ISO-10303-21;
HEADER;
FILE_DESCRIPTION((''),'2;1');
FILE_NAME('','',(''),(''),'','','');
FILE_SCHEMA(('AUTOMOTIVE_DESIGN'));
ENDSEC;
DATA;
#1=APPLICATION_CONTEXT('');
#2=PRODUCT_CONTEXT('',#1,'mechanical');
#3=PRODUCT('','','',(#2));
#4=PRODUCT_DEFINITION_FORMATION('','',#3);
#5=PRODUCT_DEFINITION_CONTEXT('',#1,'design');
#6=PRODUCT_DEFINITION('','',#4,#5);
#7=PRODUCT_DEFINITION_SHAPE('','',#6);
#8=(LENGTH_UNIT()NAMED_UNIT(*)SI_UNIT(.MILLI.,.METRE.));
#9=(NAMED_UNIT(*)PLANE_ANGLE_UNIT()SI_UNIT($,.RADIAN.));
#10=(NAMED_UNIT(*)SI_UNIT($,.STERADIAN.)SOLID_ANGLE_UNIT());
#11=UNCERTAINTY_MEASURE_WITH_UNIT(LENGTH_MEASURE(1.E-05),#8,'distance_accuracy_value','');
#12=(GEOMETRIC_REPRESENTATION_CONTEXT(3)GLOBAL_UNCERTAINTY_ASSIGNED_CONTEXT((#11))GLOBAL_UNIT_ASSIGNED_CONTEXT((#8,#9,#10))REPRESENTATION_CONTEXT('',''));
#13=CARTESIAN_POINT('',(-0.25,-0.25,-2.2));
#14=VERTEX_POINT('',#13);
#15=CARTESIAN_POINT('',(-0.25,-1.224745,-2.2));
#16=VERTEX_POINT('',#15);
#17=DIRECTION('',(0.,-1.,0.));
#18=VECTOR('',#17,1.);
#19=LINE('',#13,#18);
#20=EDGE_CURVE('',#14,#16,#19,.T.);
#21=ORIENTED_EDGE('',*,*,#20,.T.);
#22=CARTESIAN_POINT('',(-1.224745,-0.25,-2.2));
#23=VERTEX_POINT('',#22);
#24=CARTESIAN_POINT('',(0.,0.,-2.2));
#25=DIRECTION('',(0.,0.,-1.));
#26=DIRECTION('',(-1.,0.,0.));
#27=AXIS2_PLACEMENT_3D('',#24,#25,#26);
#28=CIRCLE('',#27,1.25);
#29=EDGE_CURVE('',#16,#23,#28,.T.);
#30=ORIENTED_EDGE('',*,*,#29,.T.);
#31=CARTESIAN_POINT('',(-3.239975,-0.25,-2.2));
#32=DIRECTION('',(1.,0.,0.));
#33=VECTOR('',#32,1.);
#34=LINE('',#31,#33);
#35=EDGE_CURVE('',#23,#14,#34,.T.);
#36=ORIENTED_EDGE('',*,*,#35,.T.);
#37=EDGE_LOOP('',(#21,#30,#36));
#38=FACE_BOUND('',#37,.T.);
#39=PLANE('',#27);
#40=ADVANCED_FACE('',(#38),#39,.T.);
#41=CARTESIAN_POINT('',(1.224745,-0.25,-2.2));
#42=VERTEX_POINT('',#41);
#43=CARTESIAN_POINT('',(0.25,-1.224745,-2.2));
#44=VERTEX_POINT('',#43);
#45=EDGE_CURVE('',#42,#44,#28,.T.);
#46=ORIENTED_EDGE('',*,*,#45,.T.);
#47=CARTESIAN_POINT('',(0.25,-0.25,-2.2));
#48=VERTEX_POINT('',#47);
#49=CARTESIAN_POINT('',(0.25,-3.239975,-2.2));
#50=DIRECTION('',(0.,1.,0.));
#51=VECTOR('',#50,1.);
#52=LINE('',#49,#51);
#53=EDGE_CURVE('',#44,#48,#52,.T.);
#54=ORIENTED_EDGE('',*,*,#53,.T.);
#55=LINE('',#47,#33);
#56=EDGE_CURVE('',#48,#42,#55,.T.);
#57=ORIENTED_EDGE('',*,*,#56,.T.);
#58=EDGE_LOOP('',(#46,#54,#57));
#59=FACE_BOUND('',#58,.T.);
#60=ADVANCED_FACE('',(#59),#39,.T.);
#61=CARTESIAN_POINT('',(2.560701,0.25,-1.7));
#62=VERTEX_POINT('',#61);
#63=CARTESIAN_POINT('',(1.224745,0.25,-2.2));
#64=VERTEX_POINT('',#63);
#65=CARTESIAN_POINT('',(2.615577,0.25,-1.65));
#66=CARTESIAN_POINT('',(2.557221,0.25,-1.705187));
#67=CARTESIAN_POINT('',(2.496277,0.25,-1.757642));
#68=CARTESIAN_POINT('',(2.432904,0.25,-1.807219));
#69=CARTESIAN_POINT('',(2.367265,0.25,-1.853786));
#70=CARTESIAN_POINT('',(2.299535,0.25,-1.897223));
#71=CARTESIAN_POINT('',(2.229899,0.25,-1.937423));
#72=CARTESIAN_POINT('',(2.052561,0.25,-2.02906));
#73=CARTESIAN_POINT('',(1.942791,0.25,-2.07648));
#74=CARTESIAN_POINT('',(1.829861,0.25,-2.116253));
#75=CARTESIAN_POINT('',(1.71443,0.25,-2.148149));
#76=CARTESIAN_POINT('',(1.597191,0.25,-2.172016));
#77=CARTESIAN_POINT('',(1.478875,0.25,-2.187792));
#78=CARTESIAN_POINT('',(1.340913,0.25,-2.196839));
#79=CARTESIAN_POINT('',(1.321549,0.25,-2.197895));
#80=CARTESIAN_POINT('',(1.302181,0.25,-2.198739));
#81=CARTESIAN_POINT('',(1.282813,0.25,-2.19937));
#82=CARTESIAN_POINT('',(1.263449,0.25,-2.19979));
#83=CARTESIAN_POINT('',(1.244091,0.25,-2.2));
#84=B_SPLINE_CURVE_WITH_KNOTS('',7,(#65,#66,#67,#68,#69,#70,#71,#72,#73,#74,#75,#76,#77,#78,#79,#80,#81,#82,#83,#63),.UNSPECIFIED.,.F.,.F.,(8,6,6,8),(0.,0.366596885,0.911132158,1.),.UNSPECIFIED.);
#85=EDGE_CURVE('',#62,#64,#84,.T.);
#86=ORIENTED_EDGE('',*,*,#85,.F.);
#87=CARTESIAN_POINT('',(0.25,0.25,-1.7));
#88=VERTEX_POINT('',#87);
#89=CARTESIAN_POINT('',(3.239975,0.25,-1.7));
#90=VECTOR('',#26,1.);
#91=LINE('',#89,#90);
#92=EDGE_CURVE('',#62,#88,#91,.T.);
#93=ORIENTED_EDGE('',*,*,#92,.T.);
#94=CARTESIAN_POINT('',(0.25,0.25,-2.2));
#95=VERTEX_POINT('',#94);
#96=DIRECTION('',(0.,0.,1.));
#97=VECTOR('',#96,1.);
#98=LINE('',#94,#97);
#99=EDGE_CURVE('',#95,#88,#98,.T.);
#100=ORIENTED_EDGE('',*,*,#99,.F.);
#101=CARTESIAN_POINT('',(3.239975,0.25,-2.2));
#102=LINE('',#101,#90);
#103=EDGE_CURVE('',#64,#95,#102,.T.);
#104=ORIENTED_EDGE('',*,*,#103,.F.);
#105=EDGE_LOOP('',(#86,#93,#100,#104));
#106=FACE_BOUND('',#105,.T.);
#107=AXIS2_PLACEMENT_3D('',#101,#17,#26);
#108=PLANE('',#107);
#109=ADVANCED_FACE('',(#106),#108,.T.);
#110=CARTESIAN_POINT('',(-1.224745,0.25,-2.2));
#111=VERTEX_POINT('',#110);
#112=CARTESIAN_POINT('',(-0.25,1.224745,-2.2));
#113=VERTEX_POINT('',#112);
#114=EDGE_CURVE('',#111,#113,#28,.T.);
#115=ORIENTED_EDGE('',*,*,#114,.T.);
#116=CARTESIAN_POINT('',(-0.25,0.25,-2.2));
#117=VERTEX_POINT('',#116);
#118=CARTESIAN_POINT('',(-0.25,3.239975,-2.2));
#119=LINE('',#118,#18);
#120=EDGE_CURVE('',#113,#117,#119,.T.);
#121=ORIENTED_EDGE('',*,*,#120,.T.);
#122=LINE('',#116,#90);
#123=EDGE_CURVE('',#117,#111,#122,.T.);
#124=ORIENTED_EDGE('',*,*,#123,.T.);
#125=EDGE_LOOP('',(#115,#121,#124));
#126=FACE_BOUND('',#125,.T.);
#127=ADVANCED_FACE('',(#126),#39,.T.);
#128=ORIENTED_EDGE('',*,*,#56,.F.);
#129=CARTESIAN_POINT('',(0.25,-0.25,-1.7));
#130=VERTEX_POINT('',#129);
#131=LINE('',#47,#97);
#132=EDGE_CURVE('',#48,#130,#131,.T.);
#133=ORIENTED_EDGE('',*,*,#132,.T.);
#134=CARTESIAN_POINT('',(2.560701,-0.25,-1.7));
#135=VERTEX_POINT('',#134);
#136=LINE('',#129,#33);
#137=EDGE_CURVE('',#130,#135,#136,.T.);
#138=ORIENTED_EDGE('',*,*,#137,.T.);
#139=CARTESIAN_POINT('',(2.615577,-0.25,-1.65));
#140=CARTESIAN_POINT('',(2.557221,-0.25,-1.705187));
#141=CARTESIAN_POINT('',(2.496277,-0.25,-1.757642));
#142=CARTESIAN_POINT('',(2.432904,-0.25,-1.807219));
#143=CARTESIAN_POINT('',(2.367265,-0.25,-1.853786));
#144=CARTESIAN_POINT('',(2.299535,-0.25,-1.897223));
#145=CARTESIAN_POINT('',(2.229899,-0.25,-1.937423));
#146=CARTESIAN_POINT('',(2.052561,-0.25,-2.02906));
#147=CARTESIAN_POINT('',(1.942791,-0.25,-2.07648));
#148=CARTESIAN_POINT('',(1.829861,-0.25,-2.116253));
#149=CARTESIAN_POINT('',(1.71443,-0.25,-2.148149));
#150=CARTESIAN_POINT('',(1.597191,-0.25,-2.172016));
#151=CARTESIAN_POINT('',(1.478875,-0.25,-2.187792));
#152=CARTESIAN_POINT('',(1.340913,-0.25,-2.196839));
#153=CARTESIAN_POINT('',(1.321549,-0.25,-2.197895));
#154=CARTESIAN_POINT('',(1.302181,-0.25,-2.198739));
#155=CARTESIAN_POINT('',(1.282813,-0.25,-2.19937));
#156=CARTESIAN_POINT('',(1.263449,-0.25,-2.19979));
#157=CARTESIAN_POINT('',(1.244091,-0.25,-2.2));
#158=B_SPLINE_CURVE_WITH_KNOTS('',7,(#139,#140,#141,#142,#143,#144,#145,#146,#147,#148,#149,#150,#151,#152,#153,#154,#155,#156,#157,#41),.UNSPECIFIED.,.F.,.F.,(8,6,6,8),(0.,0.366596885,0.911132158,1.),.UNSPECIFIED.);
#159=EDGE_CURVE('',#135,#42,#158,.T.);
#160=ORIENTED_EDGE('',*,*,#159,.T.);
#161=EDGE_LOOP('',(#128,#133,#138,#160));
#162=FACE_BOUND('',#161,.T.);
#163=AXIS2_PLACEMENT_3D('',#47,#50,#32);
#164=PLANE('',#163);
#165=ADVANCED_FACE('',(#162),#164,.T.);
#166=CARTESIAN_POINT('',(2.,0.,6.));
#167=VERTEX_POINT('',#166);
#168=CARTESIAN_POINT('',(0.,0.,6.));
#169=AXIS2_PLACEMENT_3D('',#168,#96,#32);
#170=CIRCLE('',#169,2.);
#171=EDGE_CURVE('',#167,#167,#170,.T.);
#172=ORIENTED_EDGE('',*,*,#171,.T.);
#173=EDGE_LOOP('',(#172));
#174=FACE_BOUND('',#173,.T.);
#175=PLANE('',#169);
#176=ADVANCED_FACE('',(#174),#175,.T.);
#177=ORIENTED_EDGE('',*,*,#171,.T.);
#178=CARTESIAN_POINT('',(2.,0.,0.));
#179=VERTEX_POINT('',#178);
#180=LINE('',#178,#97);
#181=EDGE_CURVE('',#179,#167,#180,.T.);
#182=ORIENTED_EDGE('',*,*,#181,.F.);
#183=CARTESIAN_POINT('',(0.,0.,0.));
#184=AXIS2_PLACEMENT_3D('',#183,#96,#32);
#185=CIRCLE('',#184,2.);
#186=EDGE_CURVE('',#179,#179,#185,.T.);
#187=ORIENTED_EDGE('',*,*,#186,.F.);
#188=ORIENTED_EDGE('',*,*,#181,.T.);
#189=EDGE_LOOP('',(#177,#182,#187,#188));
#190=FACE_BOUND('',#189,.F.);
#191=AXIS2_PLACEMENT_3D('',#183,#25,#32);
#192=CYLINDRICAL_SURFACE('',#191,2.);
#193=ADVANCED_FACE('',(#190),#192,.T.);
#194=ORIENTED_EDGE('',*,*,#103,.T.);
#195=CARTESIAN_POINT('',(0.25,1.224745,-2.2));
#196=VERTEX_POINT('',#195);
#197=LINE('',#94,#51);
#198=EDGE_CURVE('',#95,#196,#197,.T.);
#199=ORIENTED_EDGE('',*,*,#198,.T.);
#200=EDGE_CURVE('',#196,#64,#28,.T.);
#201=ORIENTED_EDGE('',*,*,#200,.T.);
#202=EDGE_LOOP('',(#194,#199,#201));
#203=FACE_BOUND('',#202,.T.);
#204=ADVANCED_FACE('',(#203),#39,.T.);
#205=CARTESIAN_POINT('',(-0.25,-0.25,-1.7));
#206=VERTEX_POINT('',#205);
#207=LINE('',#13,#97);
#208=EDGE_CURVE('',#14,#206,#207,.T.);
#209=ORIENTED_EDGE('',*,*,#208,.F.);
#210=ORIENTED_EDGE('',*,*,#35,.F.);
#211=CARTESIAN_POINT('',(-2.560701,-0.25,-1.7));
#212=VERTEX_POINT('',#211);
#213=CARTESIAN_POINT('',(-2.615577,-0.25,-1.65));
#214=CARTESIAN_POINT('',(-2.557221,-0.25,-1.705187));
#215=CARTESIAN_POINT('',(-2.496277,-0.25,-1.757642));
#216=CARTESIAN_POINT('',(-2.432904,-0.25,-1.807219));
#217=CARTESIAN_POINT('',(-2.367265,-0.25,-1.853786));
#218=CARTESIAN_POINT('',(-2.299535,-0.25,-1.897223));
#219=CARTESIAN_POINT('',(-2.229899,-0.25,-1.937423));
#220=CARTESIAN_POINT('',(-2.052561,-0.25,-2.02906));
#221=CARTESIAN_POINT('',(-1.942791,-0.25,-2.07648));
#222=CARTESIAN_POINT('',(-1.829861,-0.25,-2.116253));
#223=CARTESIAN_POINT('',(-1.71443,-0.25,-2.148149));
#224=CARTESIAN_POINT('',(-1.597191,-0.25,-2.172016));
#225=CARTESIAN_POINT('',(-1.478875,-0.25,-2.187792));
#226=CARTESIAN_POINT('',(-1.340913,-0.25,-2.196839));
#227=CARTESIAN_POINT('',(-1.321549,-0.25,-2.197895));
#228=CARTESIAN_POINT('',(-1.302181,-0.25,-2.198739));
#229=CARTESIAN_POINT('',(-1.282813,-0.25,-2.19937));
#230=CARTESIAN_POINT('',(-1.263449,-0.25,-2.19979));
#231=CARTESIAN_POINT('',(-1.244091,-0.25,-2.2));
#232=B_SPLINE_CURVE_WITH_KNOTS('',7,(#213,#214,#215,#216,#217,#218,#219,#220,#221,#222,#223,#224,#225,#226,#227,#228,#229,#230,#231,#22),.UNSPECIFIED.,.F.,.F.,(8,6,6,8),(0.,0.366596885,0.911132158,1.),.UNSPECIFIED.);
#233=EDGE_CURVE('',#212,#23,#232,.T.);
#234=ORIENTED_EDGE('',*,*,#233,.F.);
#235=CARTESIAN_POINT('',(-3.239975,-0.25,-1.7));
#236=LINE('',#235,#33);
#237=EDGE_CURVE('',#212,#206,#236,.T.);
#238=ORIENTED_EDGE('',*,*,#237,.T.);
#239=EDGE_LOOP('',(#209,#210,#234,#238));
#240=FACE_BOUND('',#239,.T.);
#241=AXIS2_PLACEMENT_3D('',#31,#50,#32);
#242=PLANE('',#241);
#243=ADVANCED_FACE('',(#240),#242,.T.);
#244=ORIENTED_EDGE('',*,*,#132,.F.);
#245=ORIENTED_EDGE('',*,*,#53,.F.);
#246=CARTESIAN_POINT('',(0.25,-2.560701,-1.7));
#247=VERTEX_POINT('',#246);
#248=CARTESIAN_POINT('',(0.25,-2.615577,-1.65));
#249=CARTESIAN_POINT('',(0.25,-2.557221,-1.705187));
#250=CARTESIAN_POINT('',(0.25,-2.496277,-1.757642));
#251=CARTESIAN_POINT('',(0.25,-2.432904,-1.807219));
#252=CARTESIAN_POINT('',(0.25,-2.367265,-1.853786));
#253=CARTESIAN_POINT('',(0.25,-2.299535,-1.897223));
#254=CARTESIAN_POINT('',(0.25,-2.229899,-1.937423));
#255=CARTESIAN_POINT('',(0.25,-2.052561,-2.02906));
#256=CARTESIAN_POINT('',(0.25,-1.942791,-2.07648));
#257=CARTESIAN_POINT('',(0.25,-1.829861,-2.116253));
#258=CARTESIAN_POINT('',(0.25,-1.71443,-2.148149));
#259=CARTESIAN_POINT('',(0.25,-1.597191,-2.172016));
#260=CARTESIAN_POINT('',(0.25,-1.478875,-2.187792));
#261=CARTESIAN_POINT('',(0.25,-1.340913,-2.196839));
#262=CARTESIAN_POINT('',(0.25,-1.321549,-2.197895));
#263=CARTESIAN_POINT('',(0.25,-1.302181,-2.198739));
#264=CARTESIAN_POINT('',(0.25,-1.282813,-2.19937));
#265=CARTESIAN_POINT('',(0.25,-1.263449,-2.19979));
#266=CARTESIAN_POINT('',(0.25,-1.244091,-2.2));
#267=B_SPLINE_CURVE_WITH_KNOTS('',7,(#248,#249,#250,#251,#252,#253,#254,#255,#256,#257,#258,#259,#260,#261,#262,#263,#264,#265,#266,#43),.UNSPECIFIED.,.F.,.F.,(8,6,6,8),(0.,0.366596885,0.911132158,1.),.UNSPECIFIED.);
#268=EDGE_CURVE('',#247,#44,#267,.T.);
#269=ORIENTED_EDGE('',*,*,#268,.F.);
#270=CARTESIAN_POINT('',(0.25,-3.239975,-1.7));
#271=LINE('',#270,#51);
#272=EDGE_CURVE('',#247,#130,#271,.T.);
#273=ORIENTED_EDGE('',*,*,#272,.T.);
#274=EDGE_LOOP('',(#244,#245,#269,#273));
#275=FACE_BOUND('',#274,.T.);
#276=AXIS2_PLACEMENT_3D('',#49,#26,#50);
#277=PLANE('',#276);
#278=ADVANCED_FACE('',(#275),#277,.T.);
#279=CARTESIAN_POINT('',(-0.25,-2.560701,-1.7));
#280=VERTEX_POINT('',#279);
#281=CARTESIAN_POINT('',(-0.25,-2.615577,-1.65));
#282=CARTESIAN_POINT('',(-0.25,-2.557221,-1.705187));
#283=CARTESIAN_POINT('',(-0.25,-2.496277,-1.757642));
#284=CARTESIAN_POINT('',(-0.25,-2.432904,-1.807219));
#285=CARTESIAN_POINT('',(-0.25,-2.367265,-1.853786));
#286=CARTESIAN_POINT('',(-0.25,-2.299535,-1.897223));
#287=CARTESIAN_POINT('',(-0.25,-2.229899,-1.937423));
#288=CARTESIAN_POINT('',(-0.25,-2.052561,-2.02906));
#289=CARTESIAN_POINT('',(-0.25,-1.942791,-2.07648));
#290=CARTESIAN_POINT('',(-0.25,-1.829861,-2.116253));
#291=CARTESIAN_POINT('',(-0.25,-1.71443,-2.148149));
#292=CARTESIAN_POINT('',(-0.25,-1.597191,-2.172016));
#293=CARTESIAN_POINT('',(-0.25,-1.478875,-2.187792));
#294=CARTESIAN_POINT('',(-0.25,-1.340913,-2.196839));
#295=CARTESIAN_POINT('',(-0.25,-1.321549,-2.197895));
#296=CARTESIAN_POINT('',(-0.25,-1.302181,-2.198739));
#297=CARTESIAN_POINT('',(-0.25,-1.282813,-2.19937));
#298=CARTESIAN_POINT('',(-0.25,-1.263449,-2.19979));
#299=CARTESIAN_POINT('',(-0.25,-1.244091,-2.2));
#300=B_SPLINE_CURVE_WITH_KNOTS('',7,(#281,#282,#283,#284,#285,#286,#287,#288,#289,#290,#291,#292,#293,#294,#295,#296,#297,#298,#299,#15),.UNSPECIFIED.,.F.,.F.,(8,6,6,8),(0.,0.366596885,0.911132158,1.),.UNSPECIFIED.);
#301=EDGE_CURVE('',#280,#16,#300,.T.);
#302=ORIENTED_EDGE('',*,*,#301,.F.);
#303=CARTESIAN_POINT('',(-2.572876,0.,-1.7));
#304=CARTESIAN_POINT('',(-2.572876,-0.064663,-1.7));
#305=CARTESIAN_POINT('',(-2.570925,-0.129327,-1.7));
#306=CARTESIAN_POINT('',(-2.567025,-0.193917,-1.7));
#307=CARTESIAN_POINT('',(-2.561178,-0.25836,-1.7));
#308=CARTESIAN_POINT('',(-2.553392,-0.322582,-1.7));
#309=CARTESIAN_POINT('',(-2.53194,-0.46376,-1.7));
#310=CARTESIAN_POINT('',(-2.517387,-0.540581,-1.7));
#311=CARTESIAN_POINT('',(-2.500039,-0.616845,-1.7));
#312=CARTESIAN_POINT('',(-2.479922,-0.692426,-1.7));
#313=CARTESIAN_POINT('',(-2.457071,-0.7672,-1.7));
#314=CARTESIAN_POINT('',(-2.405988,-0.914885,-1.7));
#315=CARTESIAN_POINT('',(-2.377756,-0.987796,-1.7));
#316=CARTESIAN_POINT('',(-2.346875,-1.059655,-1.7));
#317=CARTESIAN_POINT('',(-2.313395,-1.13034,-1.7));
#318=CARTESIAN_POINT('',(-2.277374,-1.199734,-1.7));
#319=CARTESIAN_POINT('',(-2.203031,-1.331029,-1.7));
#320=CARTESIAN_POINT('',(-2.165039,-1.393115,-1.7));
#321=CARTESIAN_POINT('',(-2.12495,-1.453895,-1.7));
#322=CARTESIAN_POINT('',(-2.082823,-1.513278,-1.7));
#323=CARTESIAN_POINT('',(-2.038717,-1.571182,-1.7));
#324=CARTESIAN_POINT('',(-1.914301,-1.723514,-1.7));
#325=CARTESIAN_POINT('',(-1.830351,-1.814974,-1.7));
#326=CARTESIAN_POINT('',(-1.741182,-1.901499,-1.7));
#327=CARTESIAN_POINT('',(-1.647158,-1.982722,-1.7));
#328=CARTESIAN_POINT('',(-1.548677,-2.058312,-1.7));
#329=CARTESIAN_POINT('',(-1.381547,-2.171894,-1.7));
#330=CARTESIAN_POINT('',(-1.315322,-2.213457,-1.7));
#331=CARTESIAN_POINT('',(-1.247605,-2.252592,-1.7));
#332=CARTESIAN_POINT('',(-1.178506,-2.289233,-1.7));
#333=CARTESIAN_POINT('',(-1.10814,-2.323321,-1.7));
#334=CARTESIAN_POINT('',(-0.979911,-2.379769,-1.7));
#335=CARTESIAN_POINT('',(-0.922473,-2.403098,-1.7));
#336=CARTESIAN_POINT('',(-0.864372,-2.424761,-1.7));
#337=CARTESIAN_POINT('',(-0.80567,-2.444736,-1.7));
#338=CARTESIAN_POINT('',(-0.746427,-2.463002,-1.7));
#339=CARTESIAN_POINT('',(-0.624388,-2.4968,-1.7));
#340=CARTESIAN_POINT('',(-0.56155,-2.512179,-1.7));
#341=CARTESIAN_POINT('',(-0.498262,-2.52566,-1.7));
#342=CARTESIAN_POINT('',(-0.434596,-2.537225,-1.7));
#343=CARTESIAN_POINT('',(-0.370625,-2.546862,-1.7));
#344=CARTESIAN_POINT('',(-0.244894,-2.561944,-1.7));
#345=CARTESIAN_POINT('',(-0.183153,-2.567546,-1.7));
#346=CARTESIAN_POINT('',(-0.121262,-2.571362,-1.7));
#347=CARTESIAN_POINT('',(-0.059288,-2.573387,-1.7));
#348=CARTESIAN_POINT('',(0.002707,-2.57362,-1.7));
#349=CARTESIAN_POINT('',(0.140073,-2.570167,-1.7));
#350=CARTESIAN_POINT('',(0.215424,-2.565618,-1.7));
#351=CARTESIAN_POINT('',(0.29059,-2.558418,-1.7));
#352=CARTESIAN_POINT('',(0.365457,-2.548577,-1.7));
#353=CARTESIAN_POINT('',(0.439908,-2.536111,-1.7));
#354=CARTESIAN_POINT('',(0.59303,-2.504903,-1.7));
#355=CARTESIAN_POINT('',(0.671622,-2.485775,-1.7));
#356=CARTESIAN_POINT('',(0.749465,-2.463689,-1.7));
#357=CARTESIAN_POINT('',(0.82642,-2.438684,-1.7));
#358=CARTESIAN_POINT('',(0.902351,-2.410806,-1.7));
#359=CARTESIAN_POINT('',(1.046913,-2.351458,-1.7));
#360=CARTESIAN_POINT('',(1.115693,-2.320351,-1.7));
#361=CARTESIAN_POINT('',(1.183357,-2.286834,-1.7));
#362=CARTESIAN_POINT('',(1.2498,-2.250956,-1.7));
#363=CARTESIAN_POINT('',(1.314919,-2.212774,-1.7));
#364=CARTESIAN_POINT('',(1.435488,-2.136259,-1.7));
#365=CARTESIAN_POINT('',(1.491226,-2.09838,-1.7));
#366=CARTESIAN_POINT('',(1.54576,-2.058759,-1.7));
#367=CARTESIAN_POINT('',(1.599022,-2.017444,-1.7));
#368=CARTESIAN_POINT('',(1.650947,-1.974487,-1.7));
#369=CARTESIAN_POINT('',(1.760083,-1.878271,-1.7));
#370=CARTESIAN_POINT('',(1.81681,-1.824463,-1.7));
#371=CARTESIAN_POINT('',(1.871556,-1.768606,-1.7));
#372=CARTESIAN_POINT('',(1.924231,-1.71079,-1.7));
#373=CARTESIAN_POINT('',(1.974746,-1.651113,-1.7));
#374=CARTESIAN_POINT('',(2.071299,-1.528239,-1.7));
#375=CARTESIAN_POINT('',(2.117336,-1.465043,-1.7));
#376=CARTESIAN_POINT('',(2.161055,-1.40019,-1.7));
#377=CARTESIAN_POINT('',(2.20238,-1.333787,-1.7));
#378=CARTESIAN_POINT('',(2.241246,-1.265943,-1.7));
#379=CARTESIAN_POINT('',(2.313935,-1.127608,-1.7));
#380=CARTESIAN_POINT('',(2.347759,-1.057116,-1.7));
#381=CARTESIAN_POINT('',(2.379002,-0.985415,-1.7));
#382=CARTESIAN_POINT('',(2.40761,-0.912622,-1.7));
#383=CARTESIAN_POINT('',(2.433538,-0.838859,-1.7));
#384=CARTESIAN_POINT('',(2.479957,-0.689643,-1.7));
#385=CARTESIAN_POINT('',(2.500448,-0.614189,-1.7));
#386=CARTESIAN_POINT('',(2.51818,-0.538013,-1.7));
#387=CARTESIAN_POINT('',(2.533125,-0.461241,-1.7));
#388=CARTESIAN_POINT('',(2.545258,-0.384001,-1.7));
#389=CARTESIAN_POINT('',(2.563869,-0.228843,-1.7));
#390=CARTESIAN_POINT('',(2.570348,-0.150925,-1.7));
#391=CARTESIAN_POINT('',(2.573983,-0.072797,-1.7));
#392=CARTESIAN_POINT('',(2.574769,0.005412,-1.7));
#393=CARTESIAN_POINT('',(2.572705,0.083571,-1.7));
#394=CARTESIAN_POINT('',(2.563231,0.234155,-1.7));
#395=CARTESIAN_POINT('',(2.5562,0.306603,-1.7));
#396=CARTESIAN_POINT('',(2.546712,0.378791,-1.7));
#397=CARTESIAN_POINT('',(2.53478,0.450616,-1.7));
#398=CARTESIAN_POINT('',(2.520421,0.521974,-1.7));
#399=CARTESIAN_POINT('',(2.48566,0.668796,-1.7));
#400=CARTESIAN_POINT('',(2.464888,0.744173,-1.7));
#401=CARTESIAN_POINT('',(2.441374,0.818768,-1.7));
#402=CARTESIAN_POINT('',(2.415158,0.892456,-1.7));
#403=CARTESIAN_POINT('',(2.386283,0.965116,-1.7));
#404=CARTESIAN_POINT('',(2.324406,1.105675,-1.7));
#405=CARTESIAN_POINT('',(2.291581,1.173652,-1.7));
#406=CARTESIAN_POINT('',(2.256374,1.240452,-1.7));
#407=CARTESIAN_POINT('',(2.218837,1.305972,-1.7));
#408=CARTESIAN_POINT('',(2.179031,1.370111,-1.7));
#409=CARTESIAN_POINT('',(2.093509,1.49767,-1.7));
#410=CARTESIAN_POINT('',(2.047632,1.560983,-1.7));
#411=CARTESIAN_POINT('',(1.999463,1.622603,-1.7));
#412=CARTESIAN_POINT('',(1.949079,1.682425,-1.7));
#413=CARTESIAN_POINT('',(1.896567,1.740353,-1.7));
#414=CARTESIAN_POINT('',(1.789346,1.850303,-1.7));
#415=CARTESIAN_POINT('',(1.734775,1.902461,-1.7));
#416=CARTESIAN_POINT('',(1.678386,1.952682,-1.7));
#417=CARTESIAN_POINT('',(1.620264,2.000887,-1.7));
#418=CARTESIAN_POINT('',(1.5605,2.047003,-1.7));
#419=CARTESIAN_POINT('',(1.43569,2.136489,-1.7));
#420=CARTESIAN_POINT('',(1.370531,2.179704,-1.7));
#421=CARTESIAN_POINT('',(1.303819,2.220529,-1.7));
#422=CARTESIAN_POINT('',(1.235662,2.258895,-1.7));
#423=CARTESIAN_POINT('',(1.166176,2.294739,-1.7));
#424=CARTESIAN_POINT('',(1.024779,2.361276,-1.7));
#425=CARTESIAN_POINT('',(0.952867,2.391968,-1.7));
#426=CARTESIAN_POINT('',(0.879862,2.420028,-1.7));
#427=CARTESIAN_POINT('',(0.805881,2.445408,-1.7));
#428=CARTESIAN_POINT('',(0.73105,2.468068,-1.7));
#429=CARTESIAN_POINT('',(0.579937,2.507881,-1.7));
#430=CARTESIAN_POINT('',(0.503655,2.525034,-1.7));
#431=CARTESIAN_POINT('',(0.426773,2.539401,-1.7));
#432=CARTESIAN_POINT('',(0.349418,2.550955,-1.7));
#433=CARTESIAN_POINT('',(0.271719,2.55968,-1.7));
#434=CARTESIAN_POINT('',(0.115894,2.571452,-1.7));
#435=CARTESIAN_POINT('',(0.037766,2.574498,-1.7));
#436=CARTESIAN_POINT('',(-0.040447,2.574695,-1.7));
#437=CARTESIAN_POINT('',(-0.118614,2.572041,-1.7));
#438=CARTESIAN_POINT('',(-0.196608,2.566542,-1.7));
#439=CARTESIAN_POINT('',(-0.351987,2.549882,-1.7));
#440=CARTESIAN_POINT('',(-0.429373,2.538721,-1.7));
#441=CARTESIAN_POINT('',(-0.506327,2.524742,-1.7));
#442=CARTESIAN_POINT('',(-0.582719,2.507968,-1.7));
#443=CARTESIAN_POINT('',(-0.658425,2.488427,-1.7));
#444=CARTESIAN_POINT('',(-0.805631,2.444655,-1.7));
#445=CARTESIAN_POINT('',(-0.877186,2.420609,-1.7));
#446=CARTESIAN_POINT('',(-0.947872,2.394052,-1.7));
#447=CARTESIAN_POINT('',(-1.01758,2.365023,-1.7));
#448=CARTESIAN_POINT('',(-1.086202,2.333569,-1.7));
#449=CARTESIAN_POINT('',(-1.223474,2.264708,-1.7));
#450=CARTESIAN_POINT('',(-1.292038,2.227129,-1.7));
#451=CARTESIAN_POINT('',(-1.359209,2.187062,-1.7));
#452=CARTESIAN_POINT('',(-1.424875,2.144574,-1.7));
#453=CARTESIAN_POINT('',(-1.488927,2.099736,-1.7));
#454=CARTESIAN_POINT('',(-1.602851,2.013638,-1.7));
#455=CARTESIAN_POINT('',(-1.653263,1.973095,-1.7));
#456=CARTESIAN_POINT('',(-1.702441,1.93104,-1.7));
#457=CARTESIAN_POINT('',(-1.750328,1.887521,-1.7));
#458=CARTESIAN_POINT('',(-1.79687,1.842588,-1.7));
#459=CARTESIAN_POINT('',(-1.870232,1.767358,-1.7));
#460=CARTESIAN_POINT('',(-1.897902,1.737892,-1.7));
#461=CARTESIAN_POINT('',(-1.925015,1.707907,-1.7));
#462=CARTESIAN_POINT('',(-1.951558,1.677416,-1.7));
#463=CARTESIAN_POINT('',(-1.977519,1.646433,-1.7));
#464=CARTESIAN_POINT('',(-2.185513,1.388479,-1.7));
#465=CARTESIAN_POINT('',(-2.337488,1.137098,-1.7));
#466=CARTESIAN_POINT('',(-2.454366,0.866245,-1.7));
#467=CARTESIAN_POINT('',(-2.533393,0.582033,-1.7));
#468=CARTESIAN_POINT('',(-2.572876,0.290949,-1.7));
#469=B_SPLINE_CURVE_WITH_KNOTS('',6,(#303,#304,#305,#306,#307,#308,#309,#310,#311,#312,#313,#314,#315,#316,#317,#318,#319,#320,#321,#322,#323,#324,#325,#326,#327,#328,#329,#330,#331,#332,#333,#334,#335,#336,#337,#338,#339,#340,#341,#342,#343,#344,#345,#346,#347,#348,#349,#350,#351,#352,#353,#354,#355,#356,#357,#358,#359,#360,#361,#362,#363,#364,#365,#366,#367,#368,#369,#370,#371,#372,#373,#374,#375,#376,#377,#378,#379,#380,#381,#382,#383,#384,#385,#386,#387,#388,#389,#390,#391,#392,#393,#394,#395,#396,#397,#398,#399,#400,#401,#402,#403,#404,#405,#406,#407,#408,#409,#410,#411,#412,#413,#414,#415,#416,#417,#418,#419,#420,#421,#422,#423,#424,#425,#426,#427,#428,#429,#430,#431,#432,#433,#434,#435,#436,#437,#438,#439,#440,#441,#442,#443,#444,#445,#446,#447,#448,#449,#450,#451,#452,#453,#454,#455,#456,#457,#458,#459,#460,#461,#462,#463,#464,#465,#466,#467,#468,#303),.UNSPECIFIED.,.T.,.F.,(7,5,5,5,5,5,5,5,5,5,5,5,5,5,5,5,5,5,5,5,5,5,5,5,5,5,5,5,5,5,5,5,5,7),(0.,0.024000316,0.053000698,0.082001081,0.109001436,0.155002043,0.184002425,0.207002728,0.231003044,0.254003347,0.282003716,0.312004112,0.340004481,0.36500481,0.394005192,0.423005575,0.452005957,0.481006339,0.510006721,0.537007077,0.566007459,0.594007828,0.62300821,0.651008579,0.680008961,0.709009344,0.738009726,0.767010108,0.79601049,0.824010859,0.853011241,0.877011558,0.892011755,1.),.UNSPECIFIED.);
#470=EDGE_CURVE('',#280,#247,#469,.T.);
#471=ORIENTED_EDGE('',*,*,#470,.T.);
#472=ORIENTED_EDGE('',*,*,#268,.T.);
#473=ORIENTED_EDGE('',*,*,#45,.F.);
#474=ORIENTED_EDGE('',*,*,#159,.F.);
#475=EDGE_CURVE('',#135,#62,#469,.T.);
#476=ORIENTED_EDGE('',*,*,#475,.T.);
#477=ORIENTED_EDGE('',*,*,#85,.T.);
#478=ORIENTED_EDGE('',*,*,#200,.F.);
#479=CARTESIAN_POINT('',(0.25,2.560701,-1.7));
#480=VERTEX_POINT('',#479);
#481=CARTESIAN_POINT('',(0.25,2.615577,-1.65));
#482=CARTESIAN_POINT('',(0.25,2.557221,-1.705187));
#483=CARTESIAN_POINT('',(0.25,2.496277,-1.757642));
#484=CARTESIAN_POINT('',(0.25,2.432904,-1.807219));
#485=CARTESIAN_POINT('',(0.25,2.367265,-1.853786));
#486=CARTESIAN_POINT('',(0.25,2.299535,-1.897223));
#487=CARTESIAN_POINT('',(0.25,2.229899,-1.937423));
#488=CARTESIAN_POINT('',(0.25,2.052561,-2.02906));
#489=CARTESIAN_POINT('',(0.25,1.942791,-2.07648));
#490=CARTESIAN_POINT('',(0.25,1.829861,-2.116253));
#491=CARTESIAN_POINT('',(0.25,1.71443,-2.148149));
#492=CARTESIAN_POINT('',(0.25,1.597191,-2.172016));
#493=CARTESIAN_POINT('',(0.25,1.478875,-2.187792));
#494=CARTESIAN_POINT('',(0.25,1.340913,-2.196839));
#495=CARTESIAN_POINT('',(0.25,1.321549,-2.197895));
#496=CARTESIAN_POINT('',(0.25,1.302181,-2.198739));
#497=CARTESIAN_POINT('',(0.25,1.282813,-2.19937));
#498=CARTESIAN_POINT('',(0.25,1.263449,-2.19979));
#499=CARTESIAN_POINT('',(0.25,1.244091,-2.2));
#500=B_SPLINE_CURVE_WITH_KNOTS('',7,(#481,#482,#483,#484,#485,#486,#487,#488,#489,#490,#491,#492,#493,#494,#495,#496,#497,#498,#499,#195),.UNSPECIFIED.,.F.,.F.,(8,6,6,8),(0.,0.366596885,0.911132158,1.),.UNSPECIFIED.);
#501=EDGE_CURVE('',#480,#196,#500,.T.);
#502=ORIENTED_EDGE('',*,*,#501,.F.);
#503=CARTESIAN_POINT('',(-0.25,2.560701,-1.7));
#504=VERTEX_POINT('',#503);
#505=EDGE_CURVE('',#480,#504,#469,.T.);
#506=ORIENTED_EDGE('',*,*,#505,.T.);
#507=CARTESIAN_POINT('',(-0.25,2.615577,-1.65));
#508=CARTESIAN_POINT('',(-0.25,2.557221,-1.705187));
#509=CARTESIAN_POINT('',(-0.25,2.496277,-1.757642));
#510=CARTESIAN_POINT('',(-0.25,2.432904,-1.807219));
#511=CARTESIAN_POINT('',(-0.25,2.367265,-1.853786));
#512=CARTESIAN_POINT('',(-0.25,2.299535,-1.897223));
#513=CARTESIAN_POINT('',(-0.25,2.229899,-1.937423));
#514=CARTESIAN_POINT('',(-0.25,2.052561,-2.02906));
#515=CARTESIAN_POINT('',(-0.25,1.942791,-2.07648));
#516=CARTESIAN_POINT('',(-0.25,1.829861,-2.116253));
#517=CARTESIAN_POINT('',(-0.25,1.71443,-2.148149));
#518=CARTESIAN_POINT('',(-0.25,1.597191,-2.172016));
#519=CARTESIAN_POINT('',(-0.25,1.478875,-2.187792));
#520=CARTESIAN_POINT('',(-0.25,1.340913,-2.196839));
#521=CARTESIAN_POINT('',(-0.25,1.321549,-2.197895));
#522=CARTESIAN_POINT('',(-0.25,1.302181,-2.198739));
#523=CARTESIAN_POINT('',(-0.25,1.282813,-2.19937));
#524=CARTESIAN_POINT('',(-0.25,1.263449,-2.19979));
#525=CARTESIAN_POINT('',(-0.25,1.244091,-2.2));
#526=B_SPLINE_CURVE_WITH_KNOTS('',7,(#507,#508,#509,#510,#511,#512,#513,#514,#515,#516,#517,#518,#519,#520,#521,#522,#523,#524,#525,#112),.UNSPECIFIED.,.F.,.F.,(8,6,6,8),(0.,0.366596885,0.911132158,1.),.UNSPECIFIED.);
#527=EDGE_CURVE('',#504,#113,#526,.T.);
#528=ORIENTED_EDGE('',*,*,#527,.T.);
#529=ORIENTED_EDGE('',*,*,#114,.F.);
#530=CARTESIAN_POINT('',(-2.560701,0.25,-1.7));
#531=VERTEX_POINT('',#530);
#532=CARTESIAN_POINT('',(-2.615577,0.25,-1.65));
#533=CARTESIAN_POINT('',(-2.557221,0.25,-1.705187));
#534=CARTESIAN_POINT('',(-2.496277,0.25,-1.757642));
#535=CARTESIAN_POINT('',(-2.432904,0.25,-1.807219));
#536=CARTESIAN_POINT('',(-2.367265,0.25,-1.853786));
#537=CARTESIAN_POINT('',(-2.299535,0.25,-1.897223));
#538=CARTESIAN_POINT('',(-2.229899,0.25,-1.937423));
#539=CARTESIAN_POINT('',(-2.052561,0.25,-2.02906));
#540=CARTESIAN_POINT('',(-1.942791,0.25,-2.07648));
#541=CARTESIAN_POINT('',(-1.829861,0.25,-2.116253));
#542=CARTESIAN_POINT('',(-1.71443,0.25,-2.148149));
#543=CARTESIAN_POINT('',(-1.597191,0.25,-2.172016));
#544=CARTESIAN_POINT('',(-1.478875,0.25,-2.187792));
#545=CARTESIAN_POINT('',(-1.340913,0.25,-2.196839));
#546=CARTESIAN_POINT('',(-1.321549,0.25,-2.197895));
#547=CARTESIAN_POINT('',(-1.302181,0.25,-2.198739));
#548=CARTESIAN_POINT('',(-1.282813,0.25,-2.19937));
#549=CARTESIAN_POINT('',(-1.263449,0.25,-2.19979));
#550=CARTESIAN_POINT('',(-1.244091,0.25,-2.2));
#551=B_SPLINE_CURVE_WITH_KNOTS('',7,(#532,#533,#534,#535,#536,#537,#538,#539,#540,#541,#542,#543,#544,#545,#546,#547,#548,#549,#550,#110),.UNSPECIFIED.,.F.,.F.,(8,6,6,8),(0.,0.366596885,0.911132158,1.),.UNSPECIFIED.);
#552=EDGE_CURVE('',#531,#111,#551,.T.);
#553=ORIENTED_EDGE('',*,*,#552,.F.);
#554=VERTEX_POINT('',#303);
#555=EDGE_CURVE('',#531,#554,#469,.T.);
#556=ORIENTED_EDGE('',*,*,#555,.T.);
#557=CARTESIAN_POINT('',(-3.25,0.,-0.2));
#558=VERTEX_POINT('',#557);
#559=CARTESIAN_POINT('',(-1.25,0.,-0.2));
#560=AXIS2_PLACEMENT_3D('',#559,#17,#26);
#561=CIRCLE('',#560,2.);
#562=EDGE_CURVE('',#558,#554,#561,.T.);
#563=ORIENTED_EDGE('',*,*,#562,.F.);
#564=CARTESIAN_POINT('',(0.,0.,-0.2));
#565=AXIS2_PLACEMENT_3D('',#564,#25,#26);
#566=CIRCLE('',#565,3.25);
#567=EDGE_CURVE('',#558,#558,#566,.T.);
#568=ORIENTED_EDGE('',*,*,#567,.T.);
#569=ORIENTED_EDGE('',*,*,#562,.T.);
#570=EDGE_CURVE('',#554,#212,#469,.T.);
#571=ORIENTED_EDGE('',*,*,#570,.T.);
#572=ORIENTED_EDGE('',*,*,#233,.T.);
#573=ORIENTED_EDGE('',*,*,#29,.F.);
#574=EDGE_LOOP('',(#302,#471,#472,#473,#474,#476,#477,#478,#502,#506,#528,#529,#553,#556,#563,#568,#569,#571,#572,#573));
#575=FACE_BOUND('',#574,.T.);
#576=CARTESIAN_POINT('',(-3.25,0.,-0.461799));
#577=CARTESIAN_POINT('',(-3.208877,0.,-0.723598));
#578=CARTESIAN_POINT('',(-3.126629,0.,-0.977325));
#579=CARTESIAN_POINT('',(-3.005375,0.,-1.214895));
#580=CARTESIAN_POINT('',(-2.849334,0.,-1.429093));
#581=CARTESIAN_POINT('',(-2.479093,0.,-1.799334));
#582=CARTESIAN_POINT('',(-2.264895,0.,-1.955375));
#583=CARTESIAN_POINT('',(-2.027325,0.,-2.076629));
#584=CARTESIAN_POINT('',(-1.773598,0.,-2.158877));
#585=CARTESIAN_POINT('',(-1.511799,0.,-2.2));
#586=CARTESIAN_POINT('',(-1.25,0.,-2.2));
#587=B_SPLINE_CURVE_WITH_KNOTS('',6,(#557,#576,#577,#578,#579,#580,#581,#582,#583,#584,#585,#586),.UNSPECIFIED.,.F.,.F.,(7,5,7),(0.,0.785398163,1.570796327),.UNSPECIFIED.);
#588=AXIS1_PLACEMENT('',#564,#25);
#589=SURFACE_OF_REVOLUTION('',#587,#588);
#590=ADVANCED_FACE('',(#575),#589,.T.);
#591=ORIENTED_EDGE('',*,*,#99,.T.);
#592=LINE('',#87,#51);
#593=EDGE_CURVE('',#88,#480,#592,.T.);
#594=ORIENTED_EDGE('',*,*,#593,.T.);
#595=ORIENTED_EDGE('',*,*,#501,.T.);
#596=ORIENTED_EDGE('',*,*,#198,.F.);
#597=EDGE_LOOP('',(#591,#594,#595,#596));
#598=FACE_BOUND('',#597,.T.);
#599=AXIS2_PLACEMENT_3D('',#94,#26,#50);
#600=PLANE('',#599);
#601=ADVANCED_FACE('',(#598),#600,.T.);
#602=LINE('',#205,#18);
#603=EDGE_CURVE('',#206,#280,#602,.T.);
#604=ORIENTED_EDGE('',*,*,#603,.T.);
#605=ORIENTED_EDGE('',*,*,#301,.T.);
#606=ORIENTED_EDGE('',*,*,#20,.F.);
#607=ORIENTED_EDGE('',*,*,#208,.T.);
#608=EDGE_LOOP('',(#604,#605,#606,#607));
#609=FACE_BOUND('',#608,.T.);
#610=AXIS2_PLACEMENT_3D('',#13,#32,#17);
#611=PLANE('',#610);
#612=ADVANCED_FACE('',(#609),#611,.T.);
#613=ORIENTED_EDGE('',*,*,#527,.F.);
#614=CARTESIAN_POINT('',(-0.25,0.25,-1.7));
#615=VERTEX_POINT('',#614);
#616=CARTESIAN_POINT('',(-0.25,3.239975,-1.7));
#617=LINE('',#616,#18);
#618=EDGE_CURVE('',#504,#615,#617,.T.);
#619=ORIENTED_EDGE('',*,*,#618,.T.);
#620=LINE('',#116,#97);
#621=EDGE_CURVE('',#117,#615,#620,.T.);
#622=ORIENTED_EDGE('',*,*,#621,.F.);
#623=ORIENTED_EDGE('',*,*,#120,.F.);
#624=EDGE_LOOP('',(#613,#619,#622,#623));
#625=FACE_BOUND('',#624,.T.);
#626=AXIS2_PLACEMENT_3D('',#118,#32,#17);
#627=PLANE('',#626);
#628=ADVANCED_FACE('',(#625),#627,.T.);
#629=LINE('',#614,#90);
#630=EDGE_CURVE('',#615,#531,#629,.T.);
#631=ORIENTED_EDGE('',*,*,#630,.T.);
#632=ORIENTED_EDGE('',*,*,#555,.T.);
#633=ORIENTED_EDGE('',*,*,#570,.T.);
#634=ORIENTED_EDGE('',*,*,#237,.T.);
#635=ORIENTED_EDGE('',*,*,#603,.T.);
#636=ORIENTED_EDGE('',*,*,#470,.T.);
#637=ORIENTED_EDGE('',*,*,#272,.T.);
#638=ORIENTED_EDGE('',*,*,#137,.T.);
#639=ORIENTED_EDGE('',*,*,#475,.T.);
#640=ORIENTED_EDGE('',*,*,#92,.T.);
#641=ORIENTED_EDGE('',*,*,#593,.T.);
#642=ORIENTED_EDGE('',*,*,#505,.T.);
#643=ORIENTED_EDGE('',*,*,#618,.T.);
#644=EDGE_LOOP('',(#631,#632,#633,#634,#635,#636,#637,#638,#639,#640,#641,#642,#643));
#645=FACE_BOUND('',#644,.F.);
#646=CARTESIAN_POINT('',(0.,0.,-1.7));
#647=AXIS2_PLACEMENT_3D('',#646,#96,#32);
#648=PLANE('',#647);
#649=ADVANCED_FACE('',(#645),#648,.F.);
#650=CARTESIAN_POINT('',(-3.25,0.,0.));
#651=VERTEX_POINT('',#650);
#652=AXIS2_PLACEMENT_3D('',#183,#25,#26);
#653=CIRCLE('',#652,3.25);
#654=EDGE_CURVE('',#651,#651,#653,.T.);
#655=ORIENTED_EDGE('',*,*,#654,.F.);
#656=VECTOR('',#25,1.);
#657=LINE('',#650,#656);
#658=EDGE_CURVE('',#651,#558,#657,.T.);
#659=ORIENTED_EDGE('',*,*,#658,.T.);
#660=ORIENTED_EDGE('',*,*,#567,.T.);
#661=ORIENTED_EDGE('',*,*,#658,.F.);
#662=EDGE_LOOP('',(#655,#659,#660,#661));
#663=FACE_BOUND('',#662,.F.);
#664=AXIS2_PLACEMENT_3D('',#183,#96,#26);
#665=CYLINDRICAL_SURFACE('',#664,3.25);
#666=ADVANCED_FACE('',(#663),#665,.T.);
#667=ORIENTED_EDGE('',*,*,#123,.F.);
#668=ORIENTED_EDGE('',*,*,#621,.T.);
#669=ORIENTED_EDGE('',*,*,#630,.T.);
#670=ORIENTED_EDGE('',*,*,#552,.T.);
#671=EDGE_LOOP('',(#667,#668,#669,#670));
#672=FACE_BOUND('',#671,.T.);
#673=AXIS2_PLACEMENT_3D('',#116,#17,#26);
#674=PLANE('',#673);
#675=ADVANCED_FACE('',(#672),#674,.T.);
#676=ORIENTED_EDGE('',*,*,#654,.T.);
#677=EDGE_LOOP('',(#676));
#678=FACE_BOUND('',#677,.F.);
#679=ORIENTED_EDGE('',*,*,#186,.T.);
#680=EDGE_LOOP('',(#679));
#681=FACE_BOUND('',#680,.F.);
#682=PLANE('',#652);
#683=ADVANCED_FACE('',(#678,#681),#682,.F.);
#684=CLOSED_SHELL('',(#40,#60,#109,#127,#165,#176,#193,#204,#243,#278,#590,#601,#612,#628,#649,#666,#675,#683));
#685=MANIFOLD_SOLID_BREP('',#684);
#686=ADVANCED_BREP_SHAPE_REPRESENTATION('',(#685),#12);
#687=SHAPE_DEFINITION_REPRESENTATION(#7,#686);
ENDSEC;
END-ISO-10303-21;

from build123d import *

# Parameters (mm, degrees)
SKETCH_1_R          = 2
EXTRUDE_1_DEPTH     = 6
SKETCH_2_R          = 3.25
EXTRUDE_2_DEPTH     = 2.2
FILLET_1_R          = 2
CUT_EXTRUDE_1_DEPTH = 0.5


with BuildPart() as part:
    # 草图1 → 凸台-拉伸1 (new body)
    with BuildSketch(Plane.XY):
        Circle(SKETCH_1_R)
    extrude(amount=EXTRUDE_1_DEPTH)

    # 草图2 → 凸台-拉伸2 (add)
    with BuildSketch(Plane(origin=(0, 0, 0), x_dir=(-1, 0, 0), z_dir=(0, 0, -1))):
        Circle(SKETCH_2_R)
    extrude(amount=EXTRUDE_2_DEPTH)

    # 圆角1
    fillet_1_edges = [part.edges().sort_by_distance(p)[0] for p in [
        (3.25, 0, -2.2),
    ]]
    fillet(fillet_1_edges, radius=FILLET_1_R)

    # 草图3 → 切除-拉伸1 (cut)
    with BuildSketch(Plane(origin=(0, 0, -2.2), x_dir=(-1, 0, 0), z_dir=(0, 0, -1))):
        Polygon((3.239974874, 0.25), (3.239974874, -0.25), (0.25, -0.25), (0.25, -3.239974874), (-0.25, -3.239974874), (-0.25, -0.25), (-3.239974874, -0.25), (-3.239974874, 0.25), (-0.25, 0.25), (-0.25, 3.239974874), (0.25, 3.239974874), (0.25, 0.25), align=None)
    extrude(amount=-CUT_EXTRUDE_1_DEPTH, mode=Mode.SUBTRACT)


solid = part.part
